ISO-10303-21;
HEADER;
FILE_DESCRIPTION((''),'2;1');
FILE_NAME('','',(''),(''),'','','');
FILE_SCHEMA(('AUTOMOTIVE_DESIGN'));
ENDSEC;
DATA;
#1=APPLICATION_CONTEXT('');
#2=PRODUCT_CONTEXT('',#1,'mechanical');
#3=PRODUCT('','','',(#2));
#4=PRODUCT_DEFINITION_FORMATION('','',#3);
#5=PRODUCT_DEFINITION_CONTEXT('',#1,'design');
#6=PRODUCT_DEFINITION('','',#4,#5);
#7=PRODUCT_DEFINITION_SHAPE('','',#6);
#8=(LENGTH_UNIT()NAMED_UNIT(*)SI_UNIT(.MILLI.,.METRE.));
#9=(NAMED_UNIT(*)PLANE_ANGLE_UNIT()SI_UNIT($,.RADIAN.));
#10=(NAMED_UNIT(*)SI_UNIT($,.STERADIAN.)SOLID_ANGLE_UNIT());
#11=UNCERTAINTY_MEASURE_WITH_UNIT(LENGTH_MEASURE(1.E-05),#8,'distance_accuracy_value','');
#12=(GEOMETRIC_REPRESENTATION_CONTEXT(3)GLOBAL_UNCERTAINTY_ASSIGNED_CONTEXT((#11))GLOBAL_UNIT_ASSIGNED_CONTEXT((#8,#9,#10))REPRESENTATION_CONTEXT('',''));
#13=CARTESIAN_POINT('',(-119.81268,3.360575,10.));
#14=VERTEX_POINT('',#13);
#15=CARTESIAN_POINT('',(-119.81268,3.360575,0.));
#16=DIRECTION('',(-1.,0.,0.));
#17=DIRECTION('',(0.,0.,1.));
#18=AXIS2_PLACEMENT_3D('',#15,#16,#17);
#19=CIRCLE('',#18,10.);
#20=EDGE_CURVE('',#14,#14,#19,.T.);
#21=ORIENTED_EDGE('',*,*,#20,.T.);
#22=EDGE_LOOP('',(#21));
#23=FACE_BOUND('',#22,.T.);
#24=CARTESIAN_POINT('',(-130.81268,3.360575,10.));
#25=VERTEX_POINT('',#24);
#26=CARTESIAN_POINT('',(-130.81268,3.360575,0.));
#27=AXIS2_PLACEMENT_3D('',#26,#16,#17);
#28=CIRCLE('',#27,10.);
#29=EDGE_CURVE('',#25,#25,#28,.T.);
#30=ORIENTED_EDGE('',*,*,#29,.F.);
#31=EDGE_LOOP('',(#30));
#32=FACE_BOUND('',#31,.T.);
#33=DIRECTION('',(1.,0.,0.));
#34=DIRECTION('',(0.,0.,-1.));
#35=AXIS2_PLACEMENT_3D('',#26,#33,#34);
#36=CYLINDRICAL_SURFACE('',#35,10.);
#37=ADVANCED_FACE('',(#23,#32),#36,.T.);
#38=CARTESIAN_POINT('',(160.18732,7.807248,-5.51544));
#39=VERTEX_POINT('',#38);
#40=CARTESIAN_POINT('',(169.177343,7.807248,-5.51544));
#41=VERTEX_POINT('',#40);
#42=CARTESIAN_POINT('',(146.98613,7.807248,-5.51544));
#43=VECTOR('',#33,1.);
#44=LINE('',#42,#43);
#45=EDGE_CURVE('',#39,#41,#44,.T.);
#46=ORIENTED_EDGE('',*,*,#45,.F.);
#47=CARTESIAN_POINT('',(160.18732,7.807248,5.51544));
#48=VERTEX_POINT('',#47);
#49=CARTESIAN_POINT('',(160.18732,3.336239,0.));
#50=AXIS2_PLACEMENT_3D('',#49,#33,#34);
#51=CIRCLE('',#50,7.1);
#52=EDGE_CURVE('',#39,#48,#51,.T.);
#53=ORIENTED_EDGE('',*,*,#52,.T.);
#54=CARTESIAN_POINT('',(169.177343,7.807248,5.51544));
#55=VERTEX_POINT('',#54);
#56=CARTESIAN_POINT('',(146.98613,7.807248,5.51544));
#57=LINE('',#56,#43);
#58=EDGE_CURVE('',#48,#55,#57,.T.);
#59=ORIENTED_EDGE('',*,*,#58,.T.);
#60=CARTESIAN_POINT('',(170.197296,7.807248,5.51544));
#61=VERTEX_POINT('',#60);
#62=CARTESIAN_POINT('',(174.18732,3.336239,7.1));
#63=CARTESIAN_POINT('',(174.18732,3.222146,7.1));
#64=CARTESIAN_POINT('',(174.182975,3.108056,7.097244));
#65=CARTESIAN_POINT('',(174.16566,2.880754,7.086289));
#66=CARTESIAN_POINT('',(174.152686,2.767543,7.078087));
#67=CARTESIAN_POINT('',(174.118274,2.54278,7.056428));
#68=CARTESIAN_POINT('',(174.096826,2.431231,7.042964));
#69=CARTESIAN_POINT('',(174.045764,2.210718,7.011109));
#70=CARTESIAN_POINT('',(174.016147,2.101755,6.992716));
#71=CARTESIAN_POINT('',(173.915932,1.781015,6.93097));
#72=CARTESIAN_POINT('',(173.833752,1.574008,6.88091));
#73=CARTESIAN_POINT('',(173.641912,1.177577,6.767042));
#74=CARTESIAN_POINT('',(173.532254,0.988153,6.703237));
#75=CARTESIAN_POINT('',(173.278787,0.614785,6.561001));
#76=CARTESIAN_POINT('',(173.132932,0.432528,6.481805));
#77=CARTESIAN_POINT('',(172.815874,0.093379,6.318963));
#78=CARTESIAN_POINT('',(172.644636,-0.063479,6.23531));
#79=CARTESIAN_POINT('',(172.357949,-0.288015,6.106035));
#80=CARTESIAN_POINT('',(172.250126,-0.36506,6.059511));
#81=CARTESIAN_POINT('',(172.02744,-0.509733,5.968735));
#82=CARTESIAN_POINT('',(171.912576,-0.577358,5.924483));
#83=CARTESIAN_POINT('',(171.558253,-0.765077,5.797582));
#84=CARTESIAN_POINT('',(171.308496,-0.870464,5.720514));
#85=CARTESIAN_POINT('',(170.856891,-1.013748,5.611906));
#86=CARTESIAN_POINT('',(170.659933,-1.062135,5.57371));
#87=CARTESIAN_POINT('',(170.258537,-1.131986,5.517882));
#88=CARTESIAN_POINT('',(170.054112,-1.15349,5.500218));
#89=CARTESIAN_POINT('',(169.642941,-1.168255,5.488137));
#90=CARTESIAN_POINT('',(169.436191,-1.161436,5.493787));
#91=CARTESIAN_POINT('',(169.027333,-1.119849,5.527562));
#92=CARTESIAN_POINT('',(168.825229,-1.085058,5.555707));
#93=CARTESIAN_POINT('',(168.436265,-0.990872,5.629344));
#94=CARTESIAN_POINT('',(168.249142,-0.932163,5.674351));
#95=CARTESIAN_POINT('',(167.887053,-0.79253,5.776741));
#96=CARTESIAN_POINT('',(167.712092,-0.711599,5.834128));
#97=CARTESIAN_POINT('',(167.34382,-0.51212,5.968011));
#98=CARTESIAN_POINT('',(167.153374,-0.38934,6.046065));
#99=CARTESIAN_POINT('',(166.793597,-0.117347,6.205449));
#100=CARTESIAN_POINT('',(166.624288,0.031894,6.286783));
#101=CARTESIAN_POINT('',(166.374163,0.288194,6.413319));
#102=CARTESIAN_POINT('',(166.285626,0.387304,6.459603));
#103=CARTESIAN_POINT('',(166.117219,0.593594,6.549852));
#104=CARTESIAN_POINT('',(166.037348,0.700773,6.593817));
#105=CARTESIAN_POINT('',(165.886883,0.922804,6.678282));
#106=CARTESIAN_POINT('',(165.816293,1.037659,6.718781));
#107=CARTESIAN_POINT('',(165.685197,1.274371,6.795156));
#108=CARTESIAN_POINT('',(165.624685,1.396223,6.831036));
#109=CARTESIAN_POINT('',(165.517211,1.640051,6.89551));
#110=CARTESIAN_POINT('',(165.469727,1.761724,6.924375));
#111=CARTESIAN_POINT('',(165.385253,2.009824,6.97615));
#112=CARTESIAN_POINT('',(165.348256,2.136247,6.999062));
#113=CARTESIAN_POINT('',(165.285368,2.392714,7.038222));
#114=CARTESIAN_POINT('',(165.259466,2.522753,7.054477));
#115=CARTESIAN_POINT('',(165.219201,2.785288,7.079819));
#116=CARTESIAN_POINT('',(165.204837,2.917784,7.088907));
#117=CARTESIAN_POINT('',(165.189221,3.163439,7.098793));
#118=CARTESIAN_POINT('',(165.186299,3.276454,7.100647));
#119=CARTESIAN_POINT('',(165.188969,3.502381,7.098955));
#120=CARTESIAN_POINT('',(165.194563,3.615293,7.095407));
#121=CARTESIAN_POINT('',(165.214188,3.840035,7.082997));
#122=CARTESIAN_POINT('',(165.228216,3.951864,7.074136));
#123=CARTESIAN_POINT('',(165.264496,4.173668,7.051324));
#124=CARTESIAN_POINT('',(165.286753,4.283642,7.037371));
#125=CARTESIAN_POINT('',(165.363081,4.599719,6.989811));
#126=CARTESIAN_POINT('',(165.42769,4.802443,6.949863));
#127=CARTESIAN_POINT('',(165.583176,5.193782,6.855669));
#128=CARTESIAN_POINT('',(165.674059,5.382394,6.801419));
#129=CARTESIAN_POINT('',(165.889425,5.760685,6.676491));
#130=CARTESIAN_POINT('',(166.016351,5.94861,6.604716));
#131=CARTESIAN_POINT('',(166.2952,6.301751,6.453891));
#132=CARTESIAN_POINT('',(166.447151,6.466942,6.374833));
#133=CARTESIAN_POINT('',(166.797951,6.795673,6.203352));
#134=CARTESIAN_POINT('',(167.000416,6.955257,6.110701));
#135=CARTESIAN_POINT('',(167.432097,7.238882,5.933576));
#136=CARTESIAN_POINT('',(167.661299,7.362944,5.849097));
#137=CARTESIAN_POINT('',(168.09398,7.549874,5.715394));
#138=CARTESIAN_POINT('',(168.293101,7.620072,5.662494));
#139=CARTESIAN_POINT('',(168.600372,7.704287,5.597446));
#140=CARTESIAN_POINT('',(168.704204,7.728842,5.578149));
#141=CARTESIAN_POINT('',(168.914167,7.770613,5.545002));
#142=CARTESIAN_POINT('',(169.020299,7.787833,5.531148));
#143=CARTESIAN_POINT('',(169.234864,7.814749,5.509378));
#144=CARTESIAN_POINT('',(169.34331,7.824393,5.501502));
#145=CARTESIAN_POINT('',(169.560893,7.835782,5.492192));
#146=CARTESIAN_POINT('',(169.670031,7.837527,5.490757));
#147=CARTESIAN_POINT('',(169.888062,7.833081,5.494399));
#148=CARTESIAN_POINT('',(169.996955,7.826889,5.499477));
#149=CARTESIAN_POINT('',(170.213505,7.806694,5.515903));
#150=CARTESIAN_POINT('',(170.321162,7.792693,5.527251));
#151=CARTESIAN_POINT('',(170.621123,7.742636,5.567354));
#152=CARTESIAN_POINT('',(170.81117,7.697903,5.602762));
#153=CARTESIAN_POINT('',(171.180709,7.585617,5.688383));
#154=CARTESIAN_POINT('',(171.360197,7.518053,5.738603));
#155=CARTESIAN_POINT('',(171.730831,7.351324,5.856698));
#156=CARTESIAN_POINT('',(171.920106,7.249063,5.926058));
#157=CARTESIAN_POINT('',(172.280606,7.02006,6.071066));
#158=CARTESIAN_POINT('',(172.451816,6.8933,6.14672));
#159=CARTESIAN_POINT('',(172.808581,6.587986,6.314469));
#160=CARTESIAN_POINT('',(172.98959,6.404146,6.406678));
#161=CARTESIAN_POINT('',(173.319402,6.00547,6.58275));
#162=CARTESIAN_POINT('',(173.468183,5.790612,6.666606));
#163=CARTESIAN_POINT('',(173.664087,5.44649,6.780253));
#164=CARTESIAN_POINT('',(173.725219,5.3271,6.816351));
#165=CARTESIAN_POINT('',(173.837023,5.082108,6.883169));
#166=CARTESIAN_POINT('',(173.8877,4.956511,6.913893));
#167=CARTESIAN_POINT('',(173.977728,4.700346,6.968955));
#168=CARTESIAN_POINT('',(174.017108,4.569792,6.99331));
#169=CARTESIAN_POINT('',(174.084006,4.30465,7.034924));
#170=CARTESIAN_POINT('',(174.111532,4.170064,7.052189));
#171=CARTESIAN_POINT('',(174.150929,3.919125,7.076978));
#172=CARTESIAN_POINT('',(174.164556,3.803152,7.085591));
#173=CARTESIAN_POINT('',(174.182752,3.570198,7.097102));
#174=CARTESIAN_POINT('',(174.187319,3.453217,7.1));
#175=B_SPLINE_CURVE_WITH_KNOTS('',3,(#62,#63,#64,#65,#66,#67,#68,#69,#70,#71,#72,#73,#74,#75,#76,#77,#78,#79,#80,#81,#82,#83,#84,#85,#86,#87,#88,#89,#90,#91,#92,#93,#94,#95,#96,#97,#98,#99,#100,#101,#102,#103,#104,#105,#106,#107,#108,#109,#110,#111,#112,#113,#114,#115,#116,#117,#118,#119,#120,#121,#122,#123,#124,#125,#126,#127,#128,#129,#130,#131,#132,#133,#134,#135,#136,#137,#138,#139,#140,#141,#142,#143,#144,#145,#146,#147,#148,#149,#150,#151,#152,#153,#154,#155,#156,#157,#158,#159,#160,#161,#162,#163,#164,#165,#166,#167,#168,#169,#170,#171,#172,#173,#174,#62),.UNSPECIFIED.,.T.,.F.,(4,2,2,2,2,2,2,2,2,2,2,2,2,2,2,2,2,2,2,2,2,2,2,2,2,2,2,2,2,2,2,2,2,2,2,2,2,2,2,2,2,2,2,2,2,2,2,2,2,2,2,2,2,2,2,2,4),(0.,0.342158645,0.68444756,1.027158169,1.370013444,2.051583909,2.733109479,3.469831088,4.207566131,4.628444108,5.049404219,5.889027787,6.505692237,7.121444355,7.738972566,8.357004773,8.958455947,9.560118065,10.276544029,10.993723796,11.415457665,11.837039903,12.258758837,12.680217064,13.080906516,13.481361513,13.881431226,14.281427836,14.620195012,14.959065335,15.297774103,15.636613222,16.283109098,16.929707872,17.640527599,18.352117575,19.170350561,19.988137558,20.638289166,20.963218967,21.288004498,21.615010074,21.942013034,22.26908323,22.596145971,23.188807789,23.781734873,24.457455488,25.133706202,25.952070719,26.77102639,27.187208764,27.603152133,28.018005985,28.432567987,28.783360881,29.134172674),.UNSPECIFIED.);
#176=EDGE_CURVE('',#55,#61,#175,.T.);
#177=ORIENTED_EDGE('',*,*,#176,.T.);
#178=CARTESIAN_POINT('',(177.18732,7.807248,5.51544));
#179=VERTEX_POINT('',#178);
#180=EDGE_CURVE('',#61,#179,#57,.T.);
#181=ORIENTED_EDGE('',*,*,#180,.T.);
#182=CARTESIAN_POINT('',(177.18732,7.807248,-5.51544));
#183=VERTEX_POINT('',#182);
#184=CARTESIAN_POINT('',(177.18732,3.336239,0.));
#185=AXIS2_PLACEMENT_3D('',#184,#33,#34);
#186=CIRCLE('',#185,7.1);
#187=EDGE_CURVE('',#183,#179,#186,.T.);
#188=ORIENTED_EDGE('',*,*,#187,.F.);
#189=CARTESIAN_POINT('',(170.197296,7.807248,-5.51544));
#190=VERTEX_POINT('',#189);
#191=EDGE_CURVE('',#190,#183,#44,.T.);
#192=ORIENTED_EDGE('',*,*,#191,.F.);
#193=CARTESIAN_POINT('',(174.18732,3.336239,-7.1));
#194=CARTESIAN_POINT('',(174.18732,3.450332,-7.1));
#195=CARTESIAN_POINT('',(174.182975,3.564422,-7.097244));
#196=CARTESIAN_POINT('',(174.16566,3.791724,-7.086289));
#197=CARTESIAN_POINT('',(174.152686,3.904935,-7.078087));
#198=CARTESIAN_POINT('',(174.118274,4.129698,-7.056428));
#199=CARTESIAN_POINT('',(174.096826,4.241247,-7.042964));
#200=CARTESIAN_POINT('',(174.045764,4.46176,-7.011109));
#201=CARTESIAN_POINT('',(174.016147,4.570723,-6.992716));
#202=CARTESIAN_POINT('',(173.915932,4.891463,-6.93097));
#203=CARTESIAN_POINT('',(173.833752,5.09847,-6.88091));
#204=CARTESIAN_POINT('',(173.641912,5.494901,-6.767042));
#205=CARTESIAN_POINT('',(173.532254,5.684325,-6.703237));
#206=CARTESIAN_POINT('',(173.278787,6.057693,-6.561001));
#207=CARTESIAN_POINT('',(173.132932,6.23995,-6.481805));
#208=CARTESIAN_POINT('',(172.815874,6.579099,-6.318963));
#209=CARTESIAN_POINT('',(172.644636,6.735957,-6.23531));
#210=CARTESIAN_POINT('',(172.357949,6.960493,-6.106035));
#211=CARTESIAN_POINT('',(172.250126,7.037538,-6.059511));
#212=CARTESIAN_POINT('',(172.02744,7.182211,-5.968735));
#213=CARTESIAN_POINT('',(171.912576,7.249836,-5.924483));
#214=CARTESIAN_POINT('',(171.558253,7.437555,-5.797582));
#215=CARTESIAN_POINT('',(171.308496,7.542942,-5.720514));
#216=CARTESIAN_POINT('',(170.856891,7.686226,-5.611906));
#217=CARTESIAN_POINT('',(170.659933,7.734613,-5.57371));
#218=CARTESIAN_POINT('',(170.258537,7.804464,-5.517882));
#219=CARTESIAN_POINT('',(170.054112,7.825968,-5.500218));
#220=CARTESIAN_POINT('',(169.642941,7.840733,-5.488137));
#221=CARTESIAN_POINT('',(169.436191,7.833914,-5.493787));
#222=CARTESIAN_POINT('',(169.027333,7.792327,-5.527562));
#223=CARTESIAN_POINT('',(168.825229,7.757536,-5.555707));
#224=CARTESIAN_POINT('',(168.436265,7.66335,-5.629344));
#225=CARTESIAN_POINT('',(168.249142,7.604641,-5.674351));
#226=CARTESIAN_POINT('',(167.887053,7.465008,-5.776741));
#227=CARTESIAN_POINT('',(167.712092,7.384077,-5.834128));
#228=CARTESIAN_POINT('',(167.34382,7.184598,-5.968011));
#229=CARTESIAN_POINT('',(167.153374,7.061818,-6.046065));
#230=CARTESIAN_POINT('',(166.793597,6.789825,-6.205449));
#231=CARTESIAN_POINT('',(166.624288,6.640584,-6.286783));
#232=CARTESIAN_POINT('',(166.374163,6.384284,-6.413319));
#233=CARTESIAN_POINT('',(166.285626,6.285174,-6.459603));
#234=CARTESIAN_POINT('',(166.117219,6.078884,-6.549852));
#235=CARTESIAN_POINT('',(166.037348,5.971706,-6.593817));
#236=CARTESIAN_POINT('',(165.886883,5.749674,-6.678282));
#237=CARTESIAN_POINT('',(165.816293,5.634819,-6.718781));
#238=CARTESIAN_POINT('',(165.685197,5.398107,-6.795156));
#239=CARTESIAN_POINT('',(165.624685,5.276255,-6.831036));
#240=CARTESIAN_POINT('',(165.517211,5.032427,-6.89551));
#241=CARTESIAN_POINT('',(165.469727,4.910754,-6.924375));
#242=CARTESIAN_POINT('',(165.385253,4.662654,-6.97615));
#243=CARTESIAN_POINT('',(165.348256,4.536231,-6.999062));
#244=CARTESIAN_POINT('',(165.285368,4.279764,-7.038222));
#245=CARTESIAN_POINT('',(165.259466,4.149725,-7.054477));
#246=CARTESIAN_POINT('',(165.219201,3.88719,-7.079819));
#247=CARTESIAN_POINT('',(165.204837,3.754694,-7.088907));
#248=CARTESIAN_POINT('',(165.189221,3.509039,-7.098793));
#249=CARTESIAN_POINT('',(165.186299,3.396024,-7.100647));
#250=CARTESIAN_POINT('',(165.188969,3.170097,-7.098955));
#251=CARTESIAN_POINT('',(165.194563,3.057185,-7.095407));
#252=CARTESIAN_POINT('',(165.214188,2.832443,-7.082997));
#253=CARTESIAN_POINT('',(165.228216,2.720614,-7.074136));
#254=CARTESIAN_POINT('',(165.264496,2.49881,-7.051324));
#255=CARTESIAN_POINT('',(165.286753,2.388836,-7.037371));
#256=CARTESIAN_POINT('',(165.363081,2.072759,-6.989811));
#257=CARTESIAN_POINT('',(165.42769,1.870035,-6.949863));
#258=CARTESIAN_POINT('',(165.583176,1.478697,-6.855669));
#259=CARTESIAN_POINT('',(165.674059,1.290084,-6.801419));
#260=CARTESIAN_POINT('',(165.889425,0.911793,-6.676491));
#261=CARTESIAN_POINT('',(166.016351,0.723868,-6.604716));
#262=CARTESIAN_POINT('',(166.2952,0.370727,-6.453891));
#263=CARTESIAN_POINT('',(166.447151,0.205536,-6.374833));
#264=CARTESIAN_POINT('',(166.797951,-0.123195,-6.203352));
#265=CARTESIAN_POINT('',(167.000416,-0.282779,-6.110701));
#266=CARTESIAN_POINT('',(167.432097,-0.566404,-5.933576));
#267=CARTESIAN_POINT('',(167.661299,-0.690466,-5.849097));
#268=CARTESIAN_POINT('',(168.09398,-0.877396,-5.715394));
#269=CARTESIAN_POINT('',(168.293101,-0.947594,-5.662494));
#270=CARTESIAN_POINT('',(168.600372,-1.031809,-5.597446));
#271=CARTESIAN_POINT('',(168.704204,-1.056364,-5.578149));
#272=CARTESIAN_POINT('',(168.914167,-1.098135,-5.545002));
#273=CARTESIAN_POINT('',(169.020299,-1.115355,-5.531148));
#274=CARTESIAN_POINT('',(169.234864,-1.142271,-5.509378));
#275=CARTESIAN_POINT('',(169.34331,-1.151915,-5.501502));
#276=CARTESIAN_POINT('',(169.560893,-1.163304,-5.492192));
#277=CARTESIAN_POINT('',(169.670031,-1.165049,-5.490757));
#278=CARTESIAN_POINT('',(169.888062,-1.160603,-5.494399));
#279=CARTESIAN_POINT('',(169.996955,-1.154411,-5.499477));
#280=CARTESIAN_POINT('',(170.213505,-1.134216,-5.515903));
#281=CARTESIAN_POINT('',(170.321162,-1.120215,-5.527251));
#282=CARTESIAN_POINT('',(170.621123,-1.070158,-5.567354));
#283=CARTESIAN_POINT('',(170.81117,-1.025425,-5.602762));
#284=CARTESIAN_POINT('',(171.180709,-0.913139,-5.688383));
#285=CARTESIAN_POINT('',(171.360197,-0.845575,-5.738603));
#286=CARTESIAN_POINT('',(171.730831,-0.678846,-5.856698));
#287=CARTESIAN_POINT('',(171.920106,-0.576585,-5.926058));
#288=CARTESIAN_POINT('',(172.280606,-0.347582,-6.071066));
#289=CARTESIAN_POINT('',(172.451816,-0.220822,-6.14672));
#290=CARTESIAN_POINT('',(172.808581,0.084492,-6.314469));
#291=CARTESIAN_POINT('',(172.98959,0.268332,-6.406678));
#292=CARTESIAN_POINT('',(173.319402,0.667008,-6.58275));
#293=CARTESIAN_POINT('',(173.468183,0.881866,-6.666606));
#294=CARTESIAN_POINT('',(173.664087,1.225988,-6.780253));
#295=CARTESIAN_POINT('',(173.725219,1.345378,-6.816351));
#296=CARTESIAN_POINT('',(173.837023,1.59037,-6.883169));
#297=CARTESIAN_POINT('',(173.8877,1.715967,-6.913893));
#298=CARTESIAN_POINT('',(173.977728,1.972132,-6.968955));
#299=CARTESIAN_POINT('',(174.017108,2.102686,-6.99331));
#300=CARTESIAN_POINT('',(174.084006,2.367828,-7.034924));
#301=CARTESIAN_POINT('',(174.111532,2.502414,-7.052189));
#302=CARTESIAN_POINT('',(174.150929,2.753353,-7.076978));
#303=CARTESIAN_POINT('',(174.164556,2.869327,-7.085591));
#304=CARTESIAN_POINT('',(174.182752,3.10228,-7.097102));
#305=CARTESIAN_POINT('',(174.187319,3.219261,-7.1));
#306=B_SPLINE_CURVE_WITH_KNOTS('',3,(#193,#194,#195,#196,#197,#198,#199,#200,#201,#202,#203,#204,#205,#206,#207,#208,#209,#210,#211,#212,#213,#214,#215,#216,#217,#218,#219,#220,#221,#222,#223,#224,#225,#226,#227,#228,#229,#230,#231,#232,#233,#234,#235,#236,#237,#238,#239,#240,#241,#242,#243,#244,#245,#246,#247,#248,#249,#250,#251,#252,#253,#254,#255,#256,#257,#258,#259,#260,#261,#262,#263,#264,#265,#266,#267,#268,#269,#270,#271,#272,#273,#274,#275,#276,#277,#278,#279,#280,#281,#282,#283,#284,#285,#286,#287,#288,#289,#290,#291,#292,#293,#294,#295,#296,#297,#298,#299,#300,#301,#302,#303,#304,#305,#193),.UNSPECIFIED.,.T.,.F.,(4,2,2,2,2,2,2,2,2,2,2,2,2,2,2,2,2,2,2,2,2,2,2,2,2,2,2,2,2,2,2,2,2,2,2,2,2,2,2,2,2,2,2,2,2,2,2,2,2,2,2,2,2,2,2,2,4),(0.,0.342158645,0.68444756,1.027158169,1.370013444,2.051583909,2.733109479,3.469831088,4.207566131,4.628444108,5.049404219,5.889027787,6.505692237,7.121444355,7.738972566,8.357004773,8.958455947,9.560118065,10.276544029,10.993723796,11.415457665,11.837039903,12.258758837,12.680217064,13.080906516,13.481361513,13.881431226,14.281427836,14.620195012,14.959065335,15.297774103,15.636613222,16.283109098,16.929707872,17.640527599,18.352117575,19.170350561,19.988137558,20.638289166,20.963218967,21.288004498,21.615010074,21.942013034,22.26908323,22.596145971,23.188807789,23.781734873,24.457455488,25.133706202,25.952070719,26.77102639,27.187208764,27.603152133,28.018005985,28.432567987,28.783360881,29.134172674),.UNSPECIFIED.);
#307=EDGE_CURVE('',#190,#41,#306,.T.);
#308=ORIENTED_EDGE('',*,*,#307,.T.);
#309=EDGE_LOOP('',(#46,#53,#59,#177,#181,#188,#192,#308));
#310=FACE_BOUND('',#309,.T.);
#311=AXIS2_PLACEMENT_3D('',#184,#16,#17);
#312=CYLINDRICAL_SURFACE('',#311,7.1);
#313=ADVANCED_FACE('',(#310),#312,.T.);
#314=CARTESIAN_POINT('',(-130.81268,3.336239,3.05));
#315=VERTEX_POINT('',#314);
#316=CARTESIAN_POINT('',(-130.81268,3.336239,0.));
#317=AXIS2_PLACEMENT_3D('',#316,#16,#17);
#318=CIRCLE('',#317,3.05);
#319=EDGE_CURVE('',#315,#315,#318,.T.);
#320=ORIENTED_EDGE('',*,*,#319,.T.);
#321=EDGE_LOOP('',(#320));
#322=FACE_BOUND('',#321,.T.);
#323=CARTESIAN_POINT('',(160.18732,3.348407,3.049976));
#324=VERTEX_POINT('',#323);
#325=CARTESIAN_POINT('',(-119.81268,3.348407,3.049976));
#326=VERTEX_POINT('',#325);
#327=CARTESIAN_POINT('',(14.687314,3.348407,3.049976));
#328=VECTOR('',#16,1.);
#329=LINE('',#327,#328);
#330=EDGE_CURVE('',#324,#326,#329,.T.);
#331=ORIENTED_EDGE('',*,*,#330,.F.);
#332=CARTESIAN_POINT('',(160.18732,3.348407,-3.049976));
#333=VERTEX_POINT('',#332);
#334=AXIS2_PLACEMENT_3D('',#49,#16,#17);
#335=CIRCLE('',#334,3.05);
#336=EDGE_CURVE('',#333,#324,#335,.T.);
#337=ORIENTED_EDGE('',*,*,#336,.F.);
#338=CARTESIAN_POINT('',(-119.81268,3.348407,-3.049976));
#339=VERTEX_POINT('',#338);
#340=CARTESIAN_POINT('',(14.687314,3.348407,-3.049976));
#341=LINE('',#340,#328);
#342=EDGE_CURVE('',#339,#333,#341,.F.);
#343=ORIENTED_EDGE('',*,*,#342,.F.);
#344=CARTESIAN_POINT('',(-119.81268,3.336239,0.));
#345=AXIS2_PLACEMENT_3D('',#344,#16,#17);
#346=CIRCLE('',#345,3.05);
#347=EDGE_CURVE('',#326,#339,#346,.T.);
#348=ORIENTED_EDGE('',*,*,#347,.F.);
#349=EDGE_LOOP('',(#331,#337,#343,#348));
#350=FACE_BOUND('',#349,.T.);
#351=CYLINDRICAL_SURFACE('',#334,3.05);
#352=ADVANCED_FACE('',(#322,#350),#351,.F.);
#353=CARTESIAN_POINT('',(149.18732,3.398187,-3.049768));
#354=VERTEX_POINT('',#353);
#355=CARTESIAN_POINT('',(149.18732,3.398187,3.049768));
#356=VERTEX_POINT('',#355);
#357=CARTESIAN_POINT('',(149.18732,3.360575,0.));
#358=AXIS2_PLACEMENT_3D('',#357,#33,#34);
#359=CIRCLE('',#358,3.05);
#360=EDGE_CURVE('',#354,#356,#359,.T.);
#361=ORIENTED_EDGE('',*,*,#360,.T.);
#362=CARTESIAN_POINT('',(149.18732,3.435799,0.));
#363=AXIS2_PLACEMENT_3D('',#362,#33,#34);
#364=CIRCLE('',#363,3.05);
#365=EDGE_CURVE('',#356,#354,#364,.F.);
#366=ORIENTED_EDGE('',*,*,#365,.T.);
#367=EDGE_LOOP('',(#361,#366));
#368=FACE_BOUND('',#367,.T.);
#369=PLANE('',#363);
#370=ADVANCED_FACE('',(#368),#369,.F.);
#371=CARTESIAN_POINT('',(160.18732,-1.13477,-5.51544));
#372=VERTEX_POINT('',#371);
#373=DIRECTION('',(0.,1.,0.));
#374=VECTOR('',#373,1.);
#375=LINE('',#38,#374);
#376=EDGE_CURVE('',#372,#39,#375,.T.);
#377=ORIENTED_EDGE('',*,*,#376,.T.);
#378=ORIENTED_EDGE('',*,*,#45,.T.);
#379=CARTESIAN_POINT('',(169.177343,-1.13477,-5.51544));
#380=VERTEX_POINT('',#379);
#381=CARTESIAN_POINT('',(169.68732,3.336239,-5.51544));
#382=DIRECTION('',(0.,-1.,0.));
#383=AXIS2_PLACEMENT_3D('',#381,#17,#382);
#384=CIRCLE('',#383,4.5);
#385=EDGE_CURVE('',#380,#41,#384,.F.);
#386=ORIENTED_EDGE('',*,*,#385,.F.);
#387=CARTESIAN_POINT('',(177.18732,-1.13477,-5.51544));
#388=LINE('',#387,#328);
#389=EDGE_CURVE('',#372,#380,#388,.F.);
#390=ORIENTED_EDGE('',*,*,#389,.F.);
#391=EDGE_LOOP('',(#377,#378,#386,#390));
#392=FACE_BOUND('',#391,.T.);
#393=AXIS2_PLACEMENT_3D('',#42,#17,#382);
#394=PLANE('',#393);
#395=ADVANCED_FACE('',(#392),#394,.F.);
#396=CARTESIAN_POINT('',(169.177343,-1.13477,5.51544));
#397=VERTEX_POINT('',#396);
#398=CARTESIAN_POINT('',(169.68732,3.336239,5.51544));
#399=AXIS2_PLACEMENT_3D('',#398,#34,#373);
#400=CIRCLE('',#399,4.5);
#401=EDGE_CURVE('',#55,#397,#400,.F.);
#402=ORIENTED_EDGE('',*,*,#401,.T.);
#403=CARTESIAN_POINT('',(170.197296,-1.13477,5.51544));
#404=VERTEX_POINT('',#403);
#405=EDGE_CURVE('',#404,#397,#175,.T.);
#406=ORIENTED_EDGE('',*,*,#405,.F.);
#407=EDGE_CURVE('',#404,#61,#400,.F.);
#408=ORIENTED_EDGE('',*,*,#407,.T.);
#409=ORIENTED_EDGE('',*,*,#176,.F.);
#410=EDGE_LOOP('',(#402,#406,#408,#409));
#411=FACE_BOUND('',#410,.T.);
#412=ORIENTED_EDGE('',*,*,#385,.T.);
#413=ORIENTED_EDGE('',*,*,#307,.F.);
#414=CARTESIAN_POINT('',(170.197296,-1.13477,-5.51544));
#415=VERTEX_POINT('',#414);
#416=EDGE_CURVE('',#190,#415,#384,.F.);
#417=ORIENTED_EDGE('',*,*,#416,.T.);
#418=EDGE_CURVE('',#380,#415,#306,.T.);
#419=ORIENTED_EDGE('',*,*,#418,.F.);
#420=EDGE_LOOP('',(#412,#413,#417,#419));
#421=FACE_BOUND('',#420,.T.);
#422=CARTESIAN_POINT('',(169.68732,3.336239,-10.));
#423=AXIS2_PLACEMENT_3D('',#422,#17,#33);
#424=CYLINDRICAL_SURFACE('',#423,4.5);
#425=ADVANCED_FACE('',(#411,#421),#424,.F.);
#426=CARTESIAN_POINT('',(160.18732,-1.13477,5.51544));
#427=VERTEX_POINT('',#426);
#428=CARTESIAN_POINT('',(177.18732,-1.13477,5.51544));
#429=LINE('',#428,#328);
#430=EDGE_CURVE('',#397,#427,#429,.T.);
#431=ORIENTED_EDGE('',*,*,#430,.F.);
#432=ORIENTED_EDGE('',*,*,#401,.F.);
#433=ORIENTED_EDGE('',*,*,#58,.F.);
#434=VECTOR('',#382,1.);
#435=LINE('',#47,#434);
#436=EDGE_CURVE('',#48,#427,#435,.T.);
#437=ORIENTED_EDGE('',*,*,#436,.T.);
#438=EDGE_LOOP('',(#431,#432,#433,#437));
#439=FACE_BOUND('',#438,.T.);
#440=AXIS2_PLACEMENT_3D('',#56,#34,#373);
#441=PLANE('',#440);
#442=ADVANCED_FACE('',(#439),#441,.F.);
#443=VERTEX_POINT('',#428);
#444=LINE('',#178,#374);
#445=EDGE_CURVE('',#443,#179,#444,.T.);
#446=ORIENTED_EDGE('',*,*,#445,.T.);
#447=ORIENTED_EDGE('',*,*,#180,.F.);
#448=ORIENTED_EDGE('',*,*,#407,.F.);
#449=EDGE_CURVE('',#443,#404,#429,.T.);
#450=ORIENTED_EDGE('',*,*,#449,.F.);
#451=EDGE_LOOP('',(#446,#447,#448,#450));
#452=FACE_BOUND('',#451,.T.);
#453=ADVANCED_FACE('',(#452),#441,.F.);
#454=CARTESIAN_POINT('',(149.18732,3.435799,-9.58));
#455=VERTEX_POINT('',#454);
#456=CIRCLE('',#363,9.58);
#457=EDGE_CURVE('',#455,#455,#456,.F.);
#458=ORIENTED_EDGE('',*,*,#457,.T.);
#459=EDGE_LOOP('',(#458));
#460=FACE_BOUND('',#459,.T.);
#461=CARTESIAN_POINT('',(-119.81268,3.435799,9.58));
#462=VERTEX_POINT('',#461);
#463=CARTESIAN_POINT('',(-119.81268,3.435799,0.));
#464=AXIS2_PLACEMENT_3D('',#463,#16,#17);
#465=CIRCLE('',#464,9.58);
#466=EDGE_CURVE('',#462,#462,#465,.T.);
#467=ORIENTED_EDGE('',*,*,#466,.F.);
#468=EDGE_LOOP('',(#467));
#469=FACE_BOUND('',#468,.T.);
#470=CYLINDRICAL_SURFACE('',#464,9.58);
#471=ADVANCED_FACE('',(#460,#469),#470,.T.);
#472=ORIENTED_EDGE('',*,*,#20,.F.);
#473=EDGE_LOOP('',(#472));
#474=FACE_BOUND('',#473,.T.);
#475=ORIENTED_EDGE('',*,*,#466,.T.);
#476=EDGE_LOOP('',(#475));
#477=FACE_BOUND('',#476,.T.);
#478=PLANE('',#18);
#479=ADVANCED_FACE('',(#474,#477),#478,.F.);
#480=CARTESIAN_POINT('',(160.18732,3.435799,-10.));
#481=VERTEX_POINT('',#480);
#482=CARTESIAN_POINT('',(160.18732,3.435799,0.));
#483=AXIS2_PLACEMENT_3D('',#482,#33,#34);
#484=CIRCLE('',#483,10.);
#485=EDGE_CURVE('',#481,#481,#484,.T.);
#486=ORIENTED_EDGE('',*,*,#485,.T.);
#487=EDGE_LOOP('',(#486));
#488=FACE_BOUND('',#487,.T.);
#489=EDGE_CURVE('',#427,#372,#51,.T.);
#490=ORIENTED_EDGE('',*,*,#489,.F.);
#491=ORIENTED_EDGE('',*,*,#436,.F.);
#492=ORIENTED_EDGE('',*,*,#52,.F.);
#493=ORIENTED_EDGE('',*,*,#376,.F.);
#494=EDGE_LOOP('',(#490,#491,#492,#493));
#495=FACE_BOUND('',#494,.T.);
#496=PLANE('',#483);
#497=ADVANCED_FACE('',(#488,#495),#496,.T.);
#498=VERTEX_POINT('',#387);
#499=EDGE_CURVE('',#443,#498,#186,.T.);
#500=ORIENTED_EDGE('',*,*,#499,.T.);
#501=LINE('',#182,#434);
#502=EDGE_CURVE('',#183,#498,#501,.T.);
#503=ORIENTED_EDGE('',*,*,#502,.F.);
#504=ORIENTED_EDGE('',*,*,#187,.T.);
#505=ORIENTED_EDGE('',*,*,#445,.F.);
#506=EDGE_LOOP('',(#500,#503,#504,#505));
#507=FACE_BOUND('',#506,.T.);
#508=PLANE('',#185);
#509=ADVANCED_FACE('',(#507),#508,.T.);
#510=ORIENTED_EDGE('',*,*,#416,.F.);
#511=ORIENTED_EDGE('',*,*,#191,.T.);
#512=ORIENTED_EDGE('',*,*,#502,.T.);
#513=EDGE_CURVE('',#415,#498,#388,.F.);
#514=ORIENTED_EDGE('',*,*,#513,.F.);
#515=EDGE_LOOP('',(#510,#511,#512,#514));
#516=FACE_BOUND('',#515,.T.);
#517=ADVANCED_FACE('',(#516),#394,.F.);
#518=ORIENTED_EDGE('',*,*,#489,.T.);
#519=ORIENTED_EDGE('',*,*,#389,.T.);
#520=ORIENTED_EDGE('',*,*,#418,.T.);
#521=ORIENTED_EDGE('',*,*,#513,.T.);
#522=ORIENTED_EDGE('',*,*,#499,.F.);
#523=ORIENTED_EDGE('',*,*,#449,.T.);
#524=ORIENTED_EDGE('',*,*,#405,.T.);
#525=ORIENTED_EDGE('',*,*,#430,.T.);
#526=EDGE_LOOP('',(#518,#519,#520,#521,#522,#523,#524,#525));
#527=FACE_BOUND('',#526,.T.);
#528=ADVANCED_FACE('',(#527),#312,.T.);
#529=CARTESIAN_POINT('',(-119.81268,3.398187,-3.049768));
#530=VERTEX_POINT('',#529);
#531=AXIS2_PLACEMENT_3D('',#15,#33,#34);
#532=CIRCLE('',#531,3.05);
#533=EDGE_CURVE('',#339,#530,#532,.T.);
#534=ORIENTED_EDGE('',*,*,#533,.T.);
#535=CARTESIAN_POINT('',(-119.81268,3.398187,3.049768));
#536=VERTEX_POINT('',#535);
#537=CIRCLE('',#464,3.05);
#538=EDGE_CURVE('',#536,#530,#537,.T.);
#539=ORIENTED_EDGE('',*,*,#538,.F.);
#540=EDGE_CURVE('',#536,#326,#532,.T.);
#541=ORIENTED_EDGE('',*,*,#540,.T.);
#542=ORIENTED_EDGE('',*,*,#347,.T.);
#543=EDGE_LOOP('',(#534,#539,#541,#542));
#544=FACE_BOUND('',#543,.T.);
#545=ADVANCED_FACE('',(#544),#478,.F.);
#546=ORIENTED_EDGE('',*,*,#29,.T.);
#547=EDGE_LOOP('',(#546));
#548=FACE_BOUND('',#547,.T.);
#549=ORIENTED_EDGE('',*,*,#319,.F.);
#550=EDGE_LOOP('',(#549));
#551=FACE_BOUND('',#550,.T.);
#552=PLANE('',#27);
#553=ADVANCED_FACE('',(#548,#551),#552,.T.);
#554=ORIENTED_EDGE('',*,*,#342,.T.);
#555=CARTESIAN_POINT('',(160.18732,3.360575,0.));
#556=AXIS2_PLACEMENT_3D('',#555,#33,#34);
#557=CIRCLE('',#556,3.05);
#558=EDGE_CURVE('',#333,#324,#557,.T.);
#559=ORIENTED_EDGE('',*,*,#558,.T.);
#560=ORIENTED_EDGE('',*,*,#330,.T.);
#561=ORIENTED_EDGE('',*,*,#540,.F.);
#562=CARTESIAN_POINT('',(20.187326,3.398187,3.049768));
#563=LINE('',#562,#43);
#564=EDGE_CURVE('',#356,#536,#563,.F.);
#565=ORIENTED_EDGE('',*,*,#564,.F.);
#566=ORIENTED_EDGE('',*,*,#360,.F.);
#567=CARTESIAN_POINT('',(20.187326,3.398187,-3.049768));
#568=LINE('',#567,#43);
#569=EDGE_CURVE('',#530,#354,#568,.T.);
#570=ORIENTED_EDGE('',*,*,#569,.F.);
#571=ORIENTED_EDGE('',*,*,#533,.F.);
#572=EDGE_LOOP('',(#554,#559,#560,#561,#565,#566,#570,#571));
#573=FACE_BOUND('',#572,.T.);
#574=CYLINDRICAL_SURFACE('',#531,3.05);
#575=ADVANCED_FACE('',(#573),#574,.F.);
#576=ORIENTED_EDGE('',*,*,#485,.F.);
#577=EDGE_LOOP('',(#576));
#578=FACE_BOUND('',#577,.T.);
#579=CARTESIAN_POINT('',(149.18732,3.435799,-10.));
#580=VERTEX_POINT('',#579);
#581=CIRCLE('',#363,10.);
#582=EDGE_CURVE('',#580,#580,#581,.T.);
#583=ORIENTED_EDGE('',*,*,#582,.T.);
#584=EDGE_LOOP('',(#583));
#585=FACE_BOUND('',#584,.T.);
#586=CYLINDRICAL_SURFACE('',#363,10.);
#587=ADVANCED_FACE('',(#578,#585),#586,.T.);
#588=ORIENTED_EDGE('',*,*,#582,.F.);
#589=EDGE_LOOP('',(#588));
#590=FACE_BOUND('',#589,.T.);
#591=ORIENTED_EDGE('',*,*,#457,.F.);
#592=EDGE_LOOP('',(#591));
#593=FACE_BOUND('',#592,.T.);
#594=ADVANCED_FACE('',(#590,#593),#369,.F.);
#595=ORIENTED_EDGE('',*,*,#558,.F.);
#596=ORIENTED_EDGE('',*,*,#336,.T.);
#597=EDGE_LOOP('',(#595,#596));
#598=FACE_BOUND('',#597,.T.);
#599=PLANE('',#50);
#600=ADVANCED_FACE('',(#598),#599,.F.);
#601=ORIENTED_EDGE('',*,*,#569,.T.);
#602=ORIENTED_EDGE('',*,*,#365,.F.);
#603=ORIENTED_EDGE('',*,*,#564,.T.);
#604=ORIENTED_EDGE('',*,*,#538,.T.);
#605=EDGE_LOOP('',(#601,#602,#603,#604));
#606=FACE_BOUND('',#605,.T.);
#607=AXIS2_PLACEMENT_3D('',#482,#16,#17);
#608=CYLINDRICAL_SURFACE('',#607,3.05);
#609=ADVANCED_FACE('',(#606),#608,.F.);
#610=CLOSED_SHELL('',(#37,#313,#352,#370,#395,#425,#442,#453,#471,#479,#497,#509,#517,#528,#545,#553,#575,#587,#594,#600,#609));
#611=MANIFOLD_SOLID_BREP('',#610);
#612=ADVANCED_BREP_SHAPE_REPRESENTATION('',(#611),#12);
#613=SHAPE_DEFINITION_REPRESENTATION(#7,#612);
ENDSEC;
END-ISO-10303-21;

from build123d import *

# Parameters (mm, degrees)
SKETCH1_W               = 280
SKETCH1_H               = 9.58
CUT_EXTRUDE1_DEPTH      = 281.466018322
CUT_EXTRUDE1_DEPTH_BACK = 281.466018322
SKETCH2_R               = 3.05
SKETCH4_R               = 10
BOSS_EXTRUDE1_DEPTH     = 11
CUT_EXTRUDE2_DEPTH      = 281.500482539
CUT_EXTRUDE2_DEPTH_BACK = 281.500482539
SKETCH7_R               = 3.05
SKETCH11_R              = 10
BOSS_EXTRUDE2_DEPTH     = 11
CUT_EXTRUDE4_DEPTH      = 292.481595825
CUT_EXTRUDE4_DEPTH_BACK = 292.481595825
SKETCH12_R              = 3.05
SKETCH13_R              = 7.1
BOSS_EXTRUDE3_DEPTH     = 17
CUT_EXTRUDE5_DEPTH      = 178.977152858
CUT_EXTRUDE5_DEPTH_BACK = 178.977152858
SKETCH14_R              = 4.5
CUT_EXTRUDE6_REACH      = 310.455
SKETCH16_W              = 5.118750851
SKETCH16_H              = 10.923653892
SKETCH16_W_2            = 7.412502438


with BuildPart() as part:
    # Sketch1 → Revolve2 (revolve)
    with BuildSketch(Plane.XY, mode=Mode.PRIVATE) as revolve2_sk:
        with Locations((20.187319621, -1.354200627)):
            Rectangle(SKETCH1_W, SKETCH1_H)
    revolve(revolve2_sk.sketch.rotate(Axis((-119.812680379, 3.435799373, 0), (1, 0, 0)), 270), axis=Axis((-119.812680379, 3.435799373, 0), (1, 0, 0)))

    # Sketch2 → Cut-Extrude1 (cut, two sides: drawn at the far end of the back side and taken through both)
    with BuildSketch(Plane.ZY.offset(119.812680379).offset(-CUT_EXTRUDE1_DEPTH_BACK)):
        with Locations((0, 3.435799373)):
            Circle(SKETCH2_R)
    extrude(amount=CUT_EXTRUDE1_DEPTH + CUT_EXTRUDE1_DEPTH_BACK, mode=Mode.SUBTRACT)

    # Sketch4 → Boss-Extrude1 (add)
    with BuildSketch(Plane(origin=(160.187319621, 0, 0), x_dir=(0, 0, -1), z_dir=(1, 0, 0))):
        with Locations((0, 3.435799373)):
            Circle(SKETCH4_R)
    extrude(amount=-BOSS_EXTRUDE1_DEPTH)

    # Sketch7 → Cut-Extrude2 (cut, two sides: drawn at the far end of the back side and taken through both)
    with BuildSketch(Plane(origin=(160.187319621, 0, 0), x_dir=(0, 0, -1), z_dir=(1, 0, 0)).offset(-CUT_EXTRUDE2_DEPTH_BACK)):
        with Locations((0, 3.360575041)):
            Circle(SKETCH7_R)
    extrude(amount=CUT_EXTRUDE2_DEPTH + CUT_EXTRUDE2_DEPTH_BACK, mode=Mode.SUBTRACT)

    # Sketch11 → Boss-Extrude2 (add)
    with BuildSketch(Plane.ZY.offset(119.812680379)):
        with Locations((0, 3.360575041)):
            Circle(SKETCH11_R)
    extrude(amount=BOSS_EXTRUDE2_DEPTH)

    # Sketch12 → Cut-Extrude4 (cut, two sides: drawn at the far end of the back side and taken through both)
    with BuildSketch(Plane.ZY.offset(130.812680379).offset(-CUT_EXTRUDE4_DEPTH_BACK)):
        with Locations((0, 3.33623901)):
            Circle(SKETCH12_R)
    extrude(amount=CUT_EXTRUDE4_DEPTH + CUT_EXTRUDE4_DEPTH_BACK, mode=Mode.SUBTRACT)

    # Sketch13 → Boss-Extrude3 (add)
    with BuildSketch(Plane(origin=(160.187319621, 0, 0), x_dir=(0, 0, -1), z_dir=(1, 0, 0))):
        with Locations((0, 3.33623901)):
            Circle(SKETCH13_R)
    extrude(amount=BOSS_EXTRUDE3_DEPTH)

    # Sketch14 → Cut-Extrude5 (cut, two sides: drawn at the far end of the back side and taken through both)
    with BuildSketch(Plane.XY.offset(-CUT_EXTRUDE5_DEPTH_BACK)):
        with Locations((169.687319621, 3.33623901)):
            Circle(SKETCH14_R)
    extrude(amount=CUT_EXTRUDE5_DEPTH + CUT_EXTRUDE5_DEPTH_BACK, mode=Mode.SUBTRACT)

    # Cut-Extrude6: up to this face of the body (flat: up to its plane)
    cut_extrude6_end = Plane(part.part.faces().sort_by_distance((160.187319621, 3.435799373, 9.717157288))[0])
    # Sketch16 → Cut-Extrude6 (cut, up to the picked face)
    with BuildSketch(Plane(origin=(177.187319621, 0, 0), x_dir=(0, 0, -1), z_dir=(1, 0, 0)), mode=Mode.PRIVATE) as cut_extrude6_sk1:
        with Locations((-8.074815219, 2.345421333)):
            Rectangle(SKETCH16_W, SKETCH16_H)
    cut_extrude6_tool1 = split(extrude(cut_extrude6_sk1.sketch, amount=-CUT_EXTRUDE6_REACH, mode=Mode.PRIVATE), bisect_by=cut_extrude6_end, keep=Keep.BOTH, mode=Mode.PRIVATE)
    # Sketch16 → Cut-Extrude6 (cut, up to the picked face)
    with BuildSketch(Plane(origin=(177.187319621, 0, 0), x_dir=(0, 0, -1), z_dir=(1, 0, 0)), mode=Mode.PRIVATE) as cut_extrude6_sk2:
        with Locations((9.221691013, 2.345421333)):
            Rectangle(SKETCH16_W_2, SKETCH16_H)
    cut_extrude6_tool2 = split(extrude(cut_extrude6_sk2.sketch, amount=-CUT_EXTRUDE6_REACH, mode=Mode.PRIVATE), bisect_by=cut_extrude6_end, keep=Keep.BOTH, mode=Mode.PRIVATE)
    add(cut_extrude6_tool1.solids().sort_by(Axis((177.18732, 2.345421, 8.074815), (-1, 0, 0)))[0], mode=Mode.SUBTRACT)
    add(cut_extrude6_tool2.solids().sort_by(Axis((177.18732, 2.345421, -9.221691), (-1, 0, 0)))[0], mode=Mode.SUBTRACT)


solid = part.part
